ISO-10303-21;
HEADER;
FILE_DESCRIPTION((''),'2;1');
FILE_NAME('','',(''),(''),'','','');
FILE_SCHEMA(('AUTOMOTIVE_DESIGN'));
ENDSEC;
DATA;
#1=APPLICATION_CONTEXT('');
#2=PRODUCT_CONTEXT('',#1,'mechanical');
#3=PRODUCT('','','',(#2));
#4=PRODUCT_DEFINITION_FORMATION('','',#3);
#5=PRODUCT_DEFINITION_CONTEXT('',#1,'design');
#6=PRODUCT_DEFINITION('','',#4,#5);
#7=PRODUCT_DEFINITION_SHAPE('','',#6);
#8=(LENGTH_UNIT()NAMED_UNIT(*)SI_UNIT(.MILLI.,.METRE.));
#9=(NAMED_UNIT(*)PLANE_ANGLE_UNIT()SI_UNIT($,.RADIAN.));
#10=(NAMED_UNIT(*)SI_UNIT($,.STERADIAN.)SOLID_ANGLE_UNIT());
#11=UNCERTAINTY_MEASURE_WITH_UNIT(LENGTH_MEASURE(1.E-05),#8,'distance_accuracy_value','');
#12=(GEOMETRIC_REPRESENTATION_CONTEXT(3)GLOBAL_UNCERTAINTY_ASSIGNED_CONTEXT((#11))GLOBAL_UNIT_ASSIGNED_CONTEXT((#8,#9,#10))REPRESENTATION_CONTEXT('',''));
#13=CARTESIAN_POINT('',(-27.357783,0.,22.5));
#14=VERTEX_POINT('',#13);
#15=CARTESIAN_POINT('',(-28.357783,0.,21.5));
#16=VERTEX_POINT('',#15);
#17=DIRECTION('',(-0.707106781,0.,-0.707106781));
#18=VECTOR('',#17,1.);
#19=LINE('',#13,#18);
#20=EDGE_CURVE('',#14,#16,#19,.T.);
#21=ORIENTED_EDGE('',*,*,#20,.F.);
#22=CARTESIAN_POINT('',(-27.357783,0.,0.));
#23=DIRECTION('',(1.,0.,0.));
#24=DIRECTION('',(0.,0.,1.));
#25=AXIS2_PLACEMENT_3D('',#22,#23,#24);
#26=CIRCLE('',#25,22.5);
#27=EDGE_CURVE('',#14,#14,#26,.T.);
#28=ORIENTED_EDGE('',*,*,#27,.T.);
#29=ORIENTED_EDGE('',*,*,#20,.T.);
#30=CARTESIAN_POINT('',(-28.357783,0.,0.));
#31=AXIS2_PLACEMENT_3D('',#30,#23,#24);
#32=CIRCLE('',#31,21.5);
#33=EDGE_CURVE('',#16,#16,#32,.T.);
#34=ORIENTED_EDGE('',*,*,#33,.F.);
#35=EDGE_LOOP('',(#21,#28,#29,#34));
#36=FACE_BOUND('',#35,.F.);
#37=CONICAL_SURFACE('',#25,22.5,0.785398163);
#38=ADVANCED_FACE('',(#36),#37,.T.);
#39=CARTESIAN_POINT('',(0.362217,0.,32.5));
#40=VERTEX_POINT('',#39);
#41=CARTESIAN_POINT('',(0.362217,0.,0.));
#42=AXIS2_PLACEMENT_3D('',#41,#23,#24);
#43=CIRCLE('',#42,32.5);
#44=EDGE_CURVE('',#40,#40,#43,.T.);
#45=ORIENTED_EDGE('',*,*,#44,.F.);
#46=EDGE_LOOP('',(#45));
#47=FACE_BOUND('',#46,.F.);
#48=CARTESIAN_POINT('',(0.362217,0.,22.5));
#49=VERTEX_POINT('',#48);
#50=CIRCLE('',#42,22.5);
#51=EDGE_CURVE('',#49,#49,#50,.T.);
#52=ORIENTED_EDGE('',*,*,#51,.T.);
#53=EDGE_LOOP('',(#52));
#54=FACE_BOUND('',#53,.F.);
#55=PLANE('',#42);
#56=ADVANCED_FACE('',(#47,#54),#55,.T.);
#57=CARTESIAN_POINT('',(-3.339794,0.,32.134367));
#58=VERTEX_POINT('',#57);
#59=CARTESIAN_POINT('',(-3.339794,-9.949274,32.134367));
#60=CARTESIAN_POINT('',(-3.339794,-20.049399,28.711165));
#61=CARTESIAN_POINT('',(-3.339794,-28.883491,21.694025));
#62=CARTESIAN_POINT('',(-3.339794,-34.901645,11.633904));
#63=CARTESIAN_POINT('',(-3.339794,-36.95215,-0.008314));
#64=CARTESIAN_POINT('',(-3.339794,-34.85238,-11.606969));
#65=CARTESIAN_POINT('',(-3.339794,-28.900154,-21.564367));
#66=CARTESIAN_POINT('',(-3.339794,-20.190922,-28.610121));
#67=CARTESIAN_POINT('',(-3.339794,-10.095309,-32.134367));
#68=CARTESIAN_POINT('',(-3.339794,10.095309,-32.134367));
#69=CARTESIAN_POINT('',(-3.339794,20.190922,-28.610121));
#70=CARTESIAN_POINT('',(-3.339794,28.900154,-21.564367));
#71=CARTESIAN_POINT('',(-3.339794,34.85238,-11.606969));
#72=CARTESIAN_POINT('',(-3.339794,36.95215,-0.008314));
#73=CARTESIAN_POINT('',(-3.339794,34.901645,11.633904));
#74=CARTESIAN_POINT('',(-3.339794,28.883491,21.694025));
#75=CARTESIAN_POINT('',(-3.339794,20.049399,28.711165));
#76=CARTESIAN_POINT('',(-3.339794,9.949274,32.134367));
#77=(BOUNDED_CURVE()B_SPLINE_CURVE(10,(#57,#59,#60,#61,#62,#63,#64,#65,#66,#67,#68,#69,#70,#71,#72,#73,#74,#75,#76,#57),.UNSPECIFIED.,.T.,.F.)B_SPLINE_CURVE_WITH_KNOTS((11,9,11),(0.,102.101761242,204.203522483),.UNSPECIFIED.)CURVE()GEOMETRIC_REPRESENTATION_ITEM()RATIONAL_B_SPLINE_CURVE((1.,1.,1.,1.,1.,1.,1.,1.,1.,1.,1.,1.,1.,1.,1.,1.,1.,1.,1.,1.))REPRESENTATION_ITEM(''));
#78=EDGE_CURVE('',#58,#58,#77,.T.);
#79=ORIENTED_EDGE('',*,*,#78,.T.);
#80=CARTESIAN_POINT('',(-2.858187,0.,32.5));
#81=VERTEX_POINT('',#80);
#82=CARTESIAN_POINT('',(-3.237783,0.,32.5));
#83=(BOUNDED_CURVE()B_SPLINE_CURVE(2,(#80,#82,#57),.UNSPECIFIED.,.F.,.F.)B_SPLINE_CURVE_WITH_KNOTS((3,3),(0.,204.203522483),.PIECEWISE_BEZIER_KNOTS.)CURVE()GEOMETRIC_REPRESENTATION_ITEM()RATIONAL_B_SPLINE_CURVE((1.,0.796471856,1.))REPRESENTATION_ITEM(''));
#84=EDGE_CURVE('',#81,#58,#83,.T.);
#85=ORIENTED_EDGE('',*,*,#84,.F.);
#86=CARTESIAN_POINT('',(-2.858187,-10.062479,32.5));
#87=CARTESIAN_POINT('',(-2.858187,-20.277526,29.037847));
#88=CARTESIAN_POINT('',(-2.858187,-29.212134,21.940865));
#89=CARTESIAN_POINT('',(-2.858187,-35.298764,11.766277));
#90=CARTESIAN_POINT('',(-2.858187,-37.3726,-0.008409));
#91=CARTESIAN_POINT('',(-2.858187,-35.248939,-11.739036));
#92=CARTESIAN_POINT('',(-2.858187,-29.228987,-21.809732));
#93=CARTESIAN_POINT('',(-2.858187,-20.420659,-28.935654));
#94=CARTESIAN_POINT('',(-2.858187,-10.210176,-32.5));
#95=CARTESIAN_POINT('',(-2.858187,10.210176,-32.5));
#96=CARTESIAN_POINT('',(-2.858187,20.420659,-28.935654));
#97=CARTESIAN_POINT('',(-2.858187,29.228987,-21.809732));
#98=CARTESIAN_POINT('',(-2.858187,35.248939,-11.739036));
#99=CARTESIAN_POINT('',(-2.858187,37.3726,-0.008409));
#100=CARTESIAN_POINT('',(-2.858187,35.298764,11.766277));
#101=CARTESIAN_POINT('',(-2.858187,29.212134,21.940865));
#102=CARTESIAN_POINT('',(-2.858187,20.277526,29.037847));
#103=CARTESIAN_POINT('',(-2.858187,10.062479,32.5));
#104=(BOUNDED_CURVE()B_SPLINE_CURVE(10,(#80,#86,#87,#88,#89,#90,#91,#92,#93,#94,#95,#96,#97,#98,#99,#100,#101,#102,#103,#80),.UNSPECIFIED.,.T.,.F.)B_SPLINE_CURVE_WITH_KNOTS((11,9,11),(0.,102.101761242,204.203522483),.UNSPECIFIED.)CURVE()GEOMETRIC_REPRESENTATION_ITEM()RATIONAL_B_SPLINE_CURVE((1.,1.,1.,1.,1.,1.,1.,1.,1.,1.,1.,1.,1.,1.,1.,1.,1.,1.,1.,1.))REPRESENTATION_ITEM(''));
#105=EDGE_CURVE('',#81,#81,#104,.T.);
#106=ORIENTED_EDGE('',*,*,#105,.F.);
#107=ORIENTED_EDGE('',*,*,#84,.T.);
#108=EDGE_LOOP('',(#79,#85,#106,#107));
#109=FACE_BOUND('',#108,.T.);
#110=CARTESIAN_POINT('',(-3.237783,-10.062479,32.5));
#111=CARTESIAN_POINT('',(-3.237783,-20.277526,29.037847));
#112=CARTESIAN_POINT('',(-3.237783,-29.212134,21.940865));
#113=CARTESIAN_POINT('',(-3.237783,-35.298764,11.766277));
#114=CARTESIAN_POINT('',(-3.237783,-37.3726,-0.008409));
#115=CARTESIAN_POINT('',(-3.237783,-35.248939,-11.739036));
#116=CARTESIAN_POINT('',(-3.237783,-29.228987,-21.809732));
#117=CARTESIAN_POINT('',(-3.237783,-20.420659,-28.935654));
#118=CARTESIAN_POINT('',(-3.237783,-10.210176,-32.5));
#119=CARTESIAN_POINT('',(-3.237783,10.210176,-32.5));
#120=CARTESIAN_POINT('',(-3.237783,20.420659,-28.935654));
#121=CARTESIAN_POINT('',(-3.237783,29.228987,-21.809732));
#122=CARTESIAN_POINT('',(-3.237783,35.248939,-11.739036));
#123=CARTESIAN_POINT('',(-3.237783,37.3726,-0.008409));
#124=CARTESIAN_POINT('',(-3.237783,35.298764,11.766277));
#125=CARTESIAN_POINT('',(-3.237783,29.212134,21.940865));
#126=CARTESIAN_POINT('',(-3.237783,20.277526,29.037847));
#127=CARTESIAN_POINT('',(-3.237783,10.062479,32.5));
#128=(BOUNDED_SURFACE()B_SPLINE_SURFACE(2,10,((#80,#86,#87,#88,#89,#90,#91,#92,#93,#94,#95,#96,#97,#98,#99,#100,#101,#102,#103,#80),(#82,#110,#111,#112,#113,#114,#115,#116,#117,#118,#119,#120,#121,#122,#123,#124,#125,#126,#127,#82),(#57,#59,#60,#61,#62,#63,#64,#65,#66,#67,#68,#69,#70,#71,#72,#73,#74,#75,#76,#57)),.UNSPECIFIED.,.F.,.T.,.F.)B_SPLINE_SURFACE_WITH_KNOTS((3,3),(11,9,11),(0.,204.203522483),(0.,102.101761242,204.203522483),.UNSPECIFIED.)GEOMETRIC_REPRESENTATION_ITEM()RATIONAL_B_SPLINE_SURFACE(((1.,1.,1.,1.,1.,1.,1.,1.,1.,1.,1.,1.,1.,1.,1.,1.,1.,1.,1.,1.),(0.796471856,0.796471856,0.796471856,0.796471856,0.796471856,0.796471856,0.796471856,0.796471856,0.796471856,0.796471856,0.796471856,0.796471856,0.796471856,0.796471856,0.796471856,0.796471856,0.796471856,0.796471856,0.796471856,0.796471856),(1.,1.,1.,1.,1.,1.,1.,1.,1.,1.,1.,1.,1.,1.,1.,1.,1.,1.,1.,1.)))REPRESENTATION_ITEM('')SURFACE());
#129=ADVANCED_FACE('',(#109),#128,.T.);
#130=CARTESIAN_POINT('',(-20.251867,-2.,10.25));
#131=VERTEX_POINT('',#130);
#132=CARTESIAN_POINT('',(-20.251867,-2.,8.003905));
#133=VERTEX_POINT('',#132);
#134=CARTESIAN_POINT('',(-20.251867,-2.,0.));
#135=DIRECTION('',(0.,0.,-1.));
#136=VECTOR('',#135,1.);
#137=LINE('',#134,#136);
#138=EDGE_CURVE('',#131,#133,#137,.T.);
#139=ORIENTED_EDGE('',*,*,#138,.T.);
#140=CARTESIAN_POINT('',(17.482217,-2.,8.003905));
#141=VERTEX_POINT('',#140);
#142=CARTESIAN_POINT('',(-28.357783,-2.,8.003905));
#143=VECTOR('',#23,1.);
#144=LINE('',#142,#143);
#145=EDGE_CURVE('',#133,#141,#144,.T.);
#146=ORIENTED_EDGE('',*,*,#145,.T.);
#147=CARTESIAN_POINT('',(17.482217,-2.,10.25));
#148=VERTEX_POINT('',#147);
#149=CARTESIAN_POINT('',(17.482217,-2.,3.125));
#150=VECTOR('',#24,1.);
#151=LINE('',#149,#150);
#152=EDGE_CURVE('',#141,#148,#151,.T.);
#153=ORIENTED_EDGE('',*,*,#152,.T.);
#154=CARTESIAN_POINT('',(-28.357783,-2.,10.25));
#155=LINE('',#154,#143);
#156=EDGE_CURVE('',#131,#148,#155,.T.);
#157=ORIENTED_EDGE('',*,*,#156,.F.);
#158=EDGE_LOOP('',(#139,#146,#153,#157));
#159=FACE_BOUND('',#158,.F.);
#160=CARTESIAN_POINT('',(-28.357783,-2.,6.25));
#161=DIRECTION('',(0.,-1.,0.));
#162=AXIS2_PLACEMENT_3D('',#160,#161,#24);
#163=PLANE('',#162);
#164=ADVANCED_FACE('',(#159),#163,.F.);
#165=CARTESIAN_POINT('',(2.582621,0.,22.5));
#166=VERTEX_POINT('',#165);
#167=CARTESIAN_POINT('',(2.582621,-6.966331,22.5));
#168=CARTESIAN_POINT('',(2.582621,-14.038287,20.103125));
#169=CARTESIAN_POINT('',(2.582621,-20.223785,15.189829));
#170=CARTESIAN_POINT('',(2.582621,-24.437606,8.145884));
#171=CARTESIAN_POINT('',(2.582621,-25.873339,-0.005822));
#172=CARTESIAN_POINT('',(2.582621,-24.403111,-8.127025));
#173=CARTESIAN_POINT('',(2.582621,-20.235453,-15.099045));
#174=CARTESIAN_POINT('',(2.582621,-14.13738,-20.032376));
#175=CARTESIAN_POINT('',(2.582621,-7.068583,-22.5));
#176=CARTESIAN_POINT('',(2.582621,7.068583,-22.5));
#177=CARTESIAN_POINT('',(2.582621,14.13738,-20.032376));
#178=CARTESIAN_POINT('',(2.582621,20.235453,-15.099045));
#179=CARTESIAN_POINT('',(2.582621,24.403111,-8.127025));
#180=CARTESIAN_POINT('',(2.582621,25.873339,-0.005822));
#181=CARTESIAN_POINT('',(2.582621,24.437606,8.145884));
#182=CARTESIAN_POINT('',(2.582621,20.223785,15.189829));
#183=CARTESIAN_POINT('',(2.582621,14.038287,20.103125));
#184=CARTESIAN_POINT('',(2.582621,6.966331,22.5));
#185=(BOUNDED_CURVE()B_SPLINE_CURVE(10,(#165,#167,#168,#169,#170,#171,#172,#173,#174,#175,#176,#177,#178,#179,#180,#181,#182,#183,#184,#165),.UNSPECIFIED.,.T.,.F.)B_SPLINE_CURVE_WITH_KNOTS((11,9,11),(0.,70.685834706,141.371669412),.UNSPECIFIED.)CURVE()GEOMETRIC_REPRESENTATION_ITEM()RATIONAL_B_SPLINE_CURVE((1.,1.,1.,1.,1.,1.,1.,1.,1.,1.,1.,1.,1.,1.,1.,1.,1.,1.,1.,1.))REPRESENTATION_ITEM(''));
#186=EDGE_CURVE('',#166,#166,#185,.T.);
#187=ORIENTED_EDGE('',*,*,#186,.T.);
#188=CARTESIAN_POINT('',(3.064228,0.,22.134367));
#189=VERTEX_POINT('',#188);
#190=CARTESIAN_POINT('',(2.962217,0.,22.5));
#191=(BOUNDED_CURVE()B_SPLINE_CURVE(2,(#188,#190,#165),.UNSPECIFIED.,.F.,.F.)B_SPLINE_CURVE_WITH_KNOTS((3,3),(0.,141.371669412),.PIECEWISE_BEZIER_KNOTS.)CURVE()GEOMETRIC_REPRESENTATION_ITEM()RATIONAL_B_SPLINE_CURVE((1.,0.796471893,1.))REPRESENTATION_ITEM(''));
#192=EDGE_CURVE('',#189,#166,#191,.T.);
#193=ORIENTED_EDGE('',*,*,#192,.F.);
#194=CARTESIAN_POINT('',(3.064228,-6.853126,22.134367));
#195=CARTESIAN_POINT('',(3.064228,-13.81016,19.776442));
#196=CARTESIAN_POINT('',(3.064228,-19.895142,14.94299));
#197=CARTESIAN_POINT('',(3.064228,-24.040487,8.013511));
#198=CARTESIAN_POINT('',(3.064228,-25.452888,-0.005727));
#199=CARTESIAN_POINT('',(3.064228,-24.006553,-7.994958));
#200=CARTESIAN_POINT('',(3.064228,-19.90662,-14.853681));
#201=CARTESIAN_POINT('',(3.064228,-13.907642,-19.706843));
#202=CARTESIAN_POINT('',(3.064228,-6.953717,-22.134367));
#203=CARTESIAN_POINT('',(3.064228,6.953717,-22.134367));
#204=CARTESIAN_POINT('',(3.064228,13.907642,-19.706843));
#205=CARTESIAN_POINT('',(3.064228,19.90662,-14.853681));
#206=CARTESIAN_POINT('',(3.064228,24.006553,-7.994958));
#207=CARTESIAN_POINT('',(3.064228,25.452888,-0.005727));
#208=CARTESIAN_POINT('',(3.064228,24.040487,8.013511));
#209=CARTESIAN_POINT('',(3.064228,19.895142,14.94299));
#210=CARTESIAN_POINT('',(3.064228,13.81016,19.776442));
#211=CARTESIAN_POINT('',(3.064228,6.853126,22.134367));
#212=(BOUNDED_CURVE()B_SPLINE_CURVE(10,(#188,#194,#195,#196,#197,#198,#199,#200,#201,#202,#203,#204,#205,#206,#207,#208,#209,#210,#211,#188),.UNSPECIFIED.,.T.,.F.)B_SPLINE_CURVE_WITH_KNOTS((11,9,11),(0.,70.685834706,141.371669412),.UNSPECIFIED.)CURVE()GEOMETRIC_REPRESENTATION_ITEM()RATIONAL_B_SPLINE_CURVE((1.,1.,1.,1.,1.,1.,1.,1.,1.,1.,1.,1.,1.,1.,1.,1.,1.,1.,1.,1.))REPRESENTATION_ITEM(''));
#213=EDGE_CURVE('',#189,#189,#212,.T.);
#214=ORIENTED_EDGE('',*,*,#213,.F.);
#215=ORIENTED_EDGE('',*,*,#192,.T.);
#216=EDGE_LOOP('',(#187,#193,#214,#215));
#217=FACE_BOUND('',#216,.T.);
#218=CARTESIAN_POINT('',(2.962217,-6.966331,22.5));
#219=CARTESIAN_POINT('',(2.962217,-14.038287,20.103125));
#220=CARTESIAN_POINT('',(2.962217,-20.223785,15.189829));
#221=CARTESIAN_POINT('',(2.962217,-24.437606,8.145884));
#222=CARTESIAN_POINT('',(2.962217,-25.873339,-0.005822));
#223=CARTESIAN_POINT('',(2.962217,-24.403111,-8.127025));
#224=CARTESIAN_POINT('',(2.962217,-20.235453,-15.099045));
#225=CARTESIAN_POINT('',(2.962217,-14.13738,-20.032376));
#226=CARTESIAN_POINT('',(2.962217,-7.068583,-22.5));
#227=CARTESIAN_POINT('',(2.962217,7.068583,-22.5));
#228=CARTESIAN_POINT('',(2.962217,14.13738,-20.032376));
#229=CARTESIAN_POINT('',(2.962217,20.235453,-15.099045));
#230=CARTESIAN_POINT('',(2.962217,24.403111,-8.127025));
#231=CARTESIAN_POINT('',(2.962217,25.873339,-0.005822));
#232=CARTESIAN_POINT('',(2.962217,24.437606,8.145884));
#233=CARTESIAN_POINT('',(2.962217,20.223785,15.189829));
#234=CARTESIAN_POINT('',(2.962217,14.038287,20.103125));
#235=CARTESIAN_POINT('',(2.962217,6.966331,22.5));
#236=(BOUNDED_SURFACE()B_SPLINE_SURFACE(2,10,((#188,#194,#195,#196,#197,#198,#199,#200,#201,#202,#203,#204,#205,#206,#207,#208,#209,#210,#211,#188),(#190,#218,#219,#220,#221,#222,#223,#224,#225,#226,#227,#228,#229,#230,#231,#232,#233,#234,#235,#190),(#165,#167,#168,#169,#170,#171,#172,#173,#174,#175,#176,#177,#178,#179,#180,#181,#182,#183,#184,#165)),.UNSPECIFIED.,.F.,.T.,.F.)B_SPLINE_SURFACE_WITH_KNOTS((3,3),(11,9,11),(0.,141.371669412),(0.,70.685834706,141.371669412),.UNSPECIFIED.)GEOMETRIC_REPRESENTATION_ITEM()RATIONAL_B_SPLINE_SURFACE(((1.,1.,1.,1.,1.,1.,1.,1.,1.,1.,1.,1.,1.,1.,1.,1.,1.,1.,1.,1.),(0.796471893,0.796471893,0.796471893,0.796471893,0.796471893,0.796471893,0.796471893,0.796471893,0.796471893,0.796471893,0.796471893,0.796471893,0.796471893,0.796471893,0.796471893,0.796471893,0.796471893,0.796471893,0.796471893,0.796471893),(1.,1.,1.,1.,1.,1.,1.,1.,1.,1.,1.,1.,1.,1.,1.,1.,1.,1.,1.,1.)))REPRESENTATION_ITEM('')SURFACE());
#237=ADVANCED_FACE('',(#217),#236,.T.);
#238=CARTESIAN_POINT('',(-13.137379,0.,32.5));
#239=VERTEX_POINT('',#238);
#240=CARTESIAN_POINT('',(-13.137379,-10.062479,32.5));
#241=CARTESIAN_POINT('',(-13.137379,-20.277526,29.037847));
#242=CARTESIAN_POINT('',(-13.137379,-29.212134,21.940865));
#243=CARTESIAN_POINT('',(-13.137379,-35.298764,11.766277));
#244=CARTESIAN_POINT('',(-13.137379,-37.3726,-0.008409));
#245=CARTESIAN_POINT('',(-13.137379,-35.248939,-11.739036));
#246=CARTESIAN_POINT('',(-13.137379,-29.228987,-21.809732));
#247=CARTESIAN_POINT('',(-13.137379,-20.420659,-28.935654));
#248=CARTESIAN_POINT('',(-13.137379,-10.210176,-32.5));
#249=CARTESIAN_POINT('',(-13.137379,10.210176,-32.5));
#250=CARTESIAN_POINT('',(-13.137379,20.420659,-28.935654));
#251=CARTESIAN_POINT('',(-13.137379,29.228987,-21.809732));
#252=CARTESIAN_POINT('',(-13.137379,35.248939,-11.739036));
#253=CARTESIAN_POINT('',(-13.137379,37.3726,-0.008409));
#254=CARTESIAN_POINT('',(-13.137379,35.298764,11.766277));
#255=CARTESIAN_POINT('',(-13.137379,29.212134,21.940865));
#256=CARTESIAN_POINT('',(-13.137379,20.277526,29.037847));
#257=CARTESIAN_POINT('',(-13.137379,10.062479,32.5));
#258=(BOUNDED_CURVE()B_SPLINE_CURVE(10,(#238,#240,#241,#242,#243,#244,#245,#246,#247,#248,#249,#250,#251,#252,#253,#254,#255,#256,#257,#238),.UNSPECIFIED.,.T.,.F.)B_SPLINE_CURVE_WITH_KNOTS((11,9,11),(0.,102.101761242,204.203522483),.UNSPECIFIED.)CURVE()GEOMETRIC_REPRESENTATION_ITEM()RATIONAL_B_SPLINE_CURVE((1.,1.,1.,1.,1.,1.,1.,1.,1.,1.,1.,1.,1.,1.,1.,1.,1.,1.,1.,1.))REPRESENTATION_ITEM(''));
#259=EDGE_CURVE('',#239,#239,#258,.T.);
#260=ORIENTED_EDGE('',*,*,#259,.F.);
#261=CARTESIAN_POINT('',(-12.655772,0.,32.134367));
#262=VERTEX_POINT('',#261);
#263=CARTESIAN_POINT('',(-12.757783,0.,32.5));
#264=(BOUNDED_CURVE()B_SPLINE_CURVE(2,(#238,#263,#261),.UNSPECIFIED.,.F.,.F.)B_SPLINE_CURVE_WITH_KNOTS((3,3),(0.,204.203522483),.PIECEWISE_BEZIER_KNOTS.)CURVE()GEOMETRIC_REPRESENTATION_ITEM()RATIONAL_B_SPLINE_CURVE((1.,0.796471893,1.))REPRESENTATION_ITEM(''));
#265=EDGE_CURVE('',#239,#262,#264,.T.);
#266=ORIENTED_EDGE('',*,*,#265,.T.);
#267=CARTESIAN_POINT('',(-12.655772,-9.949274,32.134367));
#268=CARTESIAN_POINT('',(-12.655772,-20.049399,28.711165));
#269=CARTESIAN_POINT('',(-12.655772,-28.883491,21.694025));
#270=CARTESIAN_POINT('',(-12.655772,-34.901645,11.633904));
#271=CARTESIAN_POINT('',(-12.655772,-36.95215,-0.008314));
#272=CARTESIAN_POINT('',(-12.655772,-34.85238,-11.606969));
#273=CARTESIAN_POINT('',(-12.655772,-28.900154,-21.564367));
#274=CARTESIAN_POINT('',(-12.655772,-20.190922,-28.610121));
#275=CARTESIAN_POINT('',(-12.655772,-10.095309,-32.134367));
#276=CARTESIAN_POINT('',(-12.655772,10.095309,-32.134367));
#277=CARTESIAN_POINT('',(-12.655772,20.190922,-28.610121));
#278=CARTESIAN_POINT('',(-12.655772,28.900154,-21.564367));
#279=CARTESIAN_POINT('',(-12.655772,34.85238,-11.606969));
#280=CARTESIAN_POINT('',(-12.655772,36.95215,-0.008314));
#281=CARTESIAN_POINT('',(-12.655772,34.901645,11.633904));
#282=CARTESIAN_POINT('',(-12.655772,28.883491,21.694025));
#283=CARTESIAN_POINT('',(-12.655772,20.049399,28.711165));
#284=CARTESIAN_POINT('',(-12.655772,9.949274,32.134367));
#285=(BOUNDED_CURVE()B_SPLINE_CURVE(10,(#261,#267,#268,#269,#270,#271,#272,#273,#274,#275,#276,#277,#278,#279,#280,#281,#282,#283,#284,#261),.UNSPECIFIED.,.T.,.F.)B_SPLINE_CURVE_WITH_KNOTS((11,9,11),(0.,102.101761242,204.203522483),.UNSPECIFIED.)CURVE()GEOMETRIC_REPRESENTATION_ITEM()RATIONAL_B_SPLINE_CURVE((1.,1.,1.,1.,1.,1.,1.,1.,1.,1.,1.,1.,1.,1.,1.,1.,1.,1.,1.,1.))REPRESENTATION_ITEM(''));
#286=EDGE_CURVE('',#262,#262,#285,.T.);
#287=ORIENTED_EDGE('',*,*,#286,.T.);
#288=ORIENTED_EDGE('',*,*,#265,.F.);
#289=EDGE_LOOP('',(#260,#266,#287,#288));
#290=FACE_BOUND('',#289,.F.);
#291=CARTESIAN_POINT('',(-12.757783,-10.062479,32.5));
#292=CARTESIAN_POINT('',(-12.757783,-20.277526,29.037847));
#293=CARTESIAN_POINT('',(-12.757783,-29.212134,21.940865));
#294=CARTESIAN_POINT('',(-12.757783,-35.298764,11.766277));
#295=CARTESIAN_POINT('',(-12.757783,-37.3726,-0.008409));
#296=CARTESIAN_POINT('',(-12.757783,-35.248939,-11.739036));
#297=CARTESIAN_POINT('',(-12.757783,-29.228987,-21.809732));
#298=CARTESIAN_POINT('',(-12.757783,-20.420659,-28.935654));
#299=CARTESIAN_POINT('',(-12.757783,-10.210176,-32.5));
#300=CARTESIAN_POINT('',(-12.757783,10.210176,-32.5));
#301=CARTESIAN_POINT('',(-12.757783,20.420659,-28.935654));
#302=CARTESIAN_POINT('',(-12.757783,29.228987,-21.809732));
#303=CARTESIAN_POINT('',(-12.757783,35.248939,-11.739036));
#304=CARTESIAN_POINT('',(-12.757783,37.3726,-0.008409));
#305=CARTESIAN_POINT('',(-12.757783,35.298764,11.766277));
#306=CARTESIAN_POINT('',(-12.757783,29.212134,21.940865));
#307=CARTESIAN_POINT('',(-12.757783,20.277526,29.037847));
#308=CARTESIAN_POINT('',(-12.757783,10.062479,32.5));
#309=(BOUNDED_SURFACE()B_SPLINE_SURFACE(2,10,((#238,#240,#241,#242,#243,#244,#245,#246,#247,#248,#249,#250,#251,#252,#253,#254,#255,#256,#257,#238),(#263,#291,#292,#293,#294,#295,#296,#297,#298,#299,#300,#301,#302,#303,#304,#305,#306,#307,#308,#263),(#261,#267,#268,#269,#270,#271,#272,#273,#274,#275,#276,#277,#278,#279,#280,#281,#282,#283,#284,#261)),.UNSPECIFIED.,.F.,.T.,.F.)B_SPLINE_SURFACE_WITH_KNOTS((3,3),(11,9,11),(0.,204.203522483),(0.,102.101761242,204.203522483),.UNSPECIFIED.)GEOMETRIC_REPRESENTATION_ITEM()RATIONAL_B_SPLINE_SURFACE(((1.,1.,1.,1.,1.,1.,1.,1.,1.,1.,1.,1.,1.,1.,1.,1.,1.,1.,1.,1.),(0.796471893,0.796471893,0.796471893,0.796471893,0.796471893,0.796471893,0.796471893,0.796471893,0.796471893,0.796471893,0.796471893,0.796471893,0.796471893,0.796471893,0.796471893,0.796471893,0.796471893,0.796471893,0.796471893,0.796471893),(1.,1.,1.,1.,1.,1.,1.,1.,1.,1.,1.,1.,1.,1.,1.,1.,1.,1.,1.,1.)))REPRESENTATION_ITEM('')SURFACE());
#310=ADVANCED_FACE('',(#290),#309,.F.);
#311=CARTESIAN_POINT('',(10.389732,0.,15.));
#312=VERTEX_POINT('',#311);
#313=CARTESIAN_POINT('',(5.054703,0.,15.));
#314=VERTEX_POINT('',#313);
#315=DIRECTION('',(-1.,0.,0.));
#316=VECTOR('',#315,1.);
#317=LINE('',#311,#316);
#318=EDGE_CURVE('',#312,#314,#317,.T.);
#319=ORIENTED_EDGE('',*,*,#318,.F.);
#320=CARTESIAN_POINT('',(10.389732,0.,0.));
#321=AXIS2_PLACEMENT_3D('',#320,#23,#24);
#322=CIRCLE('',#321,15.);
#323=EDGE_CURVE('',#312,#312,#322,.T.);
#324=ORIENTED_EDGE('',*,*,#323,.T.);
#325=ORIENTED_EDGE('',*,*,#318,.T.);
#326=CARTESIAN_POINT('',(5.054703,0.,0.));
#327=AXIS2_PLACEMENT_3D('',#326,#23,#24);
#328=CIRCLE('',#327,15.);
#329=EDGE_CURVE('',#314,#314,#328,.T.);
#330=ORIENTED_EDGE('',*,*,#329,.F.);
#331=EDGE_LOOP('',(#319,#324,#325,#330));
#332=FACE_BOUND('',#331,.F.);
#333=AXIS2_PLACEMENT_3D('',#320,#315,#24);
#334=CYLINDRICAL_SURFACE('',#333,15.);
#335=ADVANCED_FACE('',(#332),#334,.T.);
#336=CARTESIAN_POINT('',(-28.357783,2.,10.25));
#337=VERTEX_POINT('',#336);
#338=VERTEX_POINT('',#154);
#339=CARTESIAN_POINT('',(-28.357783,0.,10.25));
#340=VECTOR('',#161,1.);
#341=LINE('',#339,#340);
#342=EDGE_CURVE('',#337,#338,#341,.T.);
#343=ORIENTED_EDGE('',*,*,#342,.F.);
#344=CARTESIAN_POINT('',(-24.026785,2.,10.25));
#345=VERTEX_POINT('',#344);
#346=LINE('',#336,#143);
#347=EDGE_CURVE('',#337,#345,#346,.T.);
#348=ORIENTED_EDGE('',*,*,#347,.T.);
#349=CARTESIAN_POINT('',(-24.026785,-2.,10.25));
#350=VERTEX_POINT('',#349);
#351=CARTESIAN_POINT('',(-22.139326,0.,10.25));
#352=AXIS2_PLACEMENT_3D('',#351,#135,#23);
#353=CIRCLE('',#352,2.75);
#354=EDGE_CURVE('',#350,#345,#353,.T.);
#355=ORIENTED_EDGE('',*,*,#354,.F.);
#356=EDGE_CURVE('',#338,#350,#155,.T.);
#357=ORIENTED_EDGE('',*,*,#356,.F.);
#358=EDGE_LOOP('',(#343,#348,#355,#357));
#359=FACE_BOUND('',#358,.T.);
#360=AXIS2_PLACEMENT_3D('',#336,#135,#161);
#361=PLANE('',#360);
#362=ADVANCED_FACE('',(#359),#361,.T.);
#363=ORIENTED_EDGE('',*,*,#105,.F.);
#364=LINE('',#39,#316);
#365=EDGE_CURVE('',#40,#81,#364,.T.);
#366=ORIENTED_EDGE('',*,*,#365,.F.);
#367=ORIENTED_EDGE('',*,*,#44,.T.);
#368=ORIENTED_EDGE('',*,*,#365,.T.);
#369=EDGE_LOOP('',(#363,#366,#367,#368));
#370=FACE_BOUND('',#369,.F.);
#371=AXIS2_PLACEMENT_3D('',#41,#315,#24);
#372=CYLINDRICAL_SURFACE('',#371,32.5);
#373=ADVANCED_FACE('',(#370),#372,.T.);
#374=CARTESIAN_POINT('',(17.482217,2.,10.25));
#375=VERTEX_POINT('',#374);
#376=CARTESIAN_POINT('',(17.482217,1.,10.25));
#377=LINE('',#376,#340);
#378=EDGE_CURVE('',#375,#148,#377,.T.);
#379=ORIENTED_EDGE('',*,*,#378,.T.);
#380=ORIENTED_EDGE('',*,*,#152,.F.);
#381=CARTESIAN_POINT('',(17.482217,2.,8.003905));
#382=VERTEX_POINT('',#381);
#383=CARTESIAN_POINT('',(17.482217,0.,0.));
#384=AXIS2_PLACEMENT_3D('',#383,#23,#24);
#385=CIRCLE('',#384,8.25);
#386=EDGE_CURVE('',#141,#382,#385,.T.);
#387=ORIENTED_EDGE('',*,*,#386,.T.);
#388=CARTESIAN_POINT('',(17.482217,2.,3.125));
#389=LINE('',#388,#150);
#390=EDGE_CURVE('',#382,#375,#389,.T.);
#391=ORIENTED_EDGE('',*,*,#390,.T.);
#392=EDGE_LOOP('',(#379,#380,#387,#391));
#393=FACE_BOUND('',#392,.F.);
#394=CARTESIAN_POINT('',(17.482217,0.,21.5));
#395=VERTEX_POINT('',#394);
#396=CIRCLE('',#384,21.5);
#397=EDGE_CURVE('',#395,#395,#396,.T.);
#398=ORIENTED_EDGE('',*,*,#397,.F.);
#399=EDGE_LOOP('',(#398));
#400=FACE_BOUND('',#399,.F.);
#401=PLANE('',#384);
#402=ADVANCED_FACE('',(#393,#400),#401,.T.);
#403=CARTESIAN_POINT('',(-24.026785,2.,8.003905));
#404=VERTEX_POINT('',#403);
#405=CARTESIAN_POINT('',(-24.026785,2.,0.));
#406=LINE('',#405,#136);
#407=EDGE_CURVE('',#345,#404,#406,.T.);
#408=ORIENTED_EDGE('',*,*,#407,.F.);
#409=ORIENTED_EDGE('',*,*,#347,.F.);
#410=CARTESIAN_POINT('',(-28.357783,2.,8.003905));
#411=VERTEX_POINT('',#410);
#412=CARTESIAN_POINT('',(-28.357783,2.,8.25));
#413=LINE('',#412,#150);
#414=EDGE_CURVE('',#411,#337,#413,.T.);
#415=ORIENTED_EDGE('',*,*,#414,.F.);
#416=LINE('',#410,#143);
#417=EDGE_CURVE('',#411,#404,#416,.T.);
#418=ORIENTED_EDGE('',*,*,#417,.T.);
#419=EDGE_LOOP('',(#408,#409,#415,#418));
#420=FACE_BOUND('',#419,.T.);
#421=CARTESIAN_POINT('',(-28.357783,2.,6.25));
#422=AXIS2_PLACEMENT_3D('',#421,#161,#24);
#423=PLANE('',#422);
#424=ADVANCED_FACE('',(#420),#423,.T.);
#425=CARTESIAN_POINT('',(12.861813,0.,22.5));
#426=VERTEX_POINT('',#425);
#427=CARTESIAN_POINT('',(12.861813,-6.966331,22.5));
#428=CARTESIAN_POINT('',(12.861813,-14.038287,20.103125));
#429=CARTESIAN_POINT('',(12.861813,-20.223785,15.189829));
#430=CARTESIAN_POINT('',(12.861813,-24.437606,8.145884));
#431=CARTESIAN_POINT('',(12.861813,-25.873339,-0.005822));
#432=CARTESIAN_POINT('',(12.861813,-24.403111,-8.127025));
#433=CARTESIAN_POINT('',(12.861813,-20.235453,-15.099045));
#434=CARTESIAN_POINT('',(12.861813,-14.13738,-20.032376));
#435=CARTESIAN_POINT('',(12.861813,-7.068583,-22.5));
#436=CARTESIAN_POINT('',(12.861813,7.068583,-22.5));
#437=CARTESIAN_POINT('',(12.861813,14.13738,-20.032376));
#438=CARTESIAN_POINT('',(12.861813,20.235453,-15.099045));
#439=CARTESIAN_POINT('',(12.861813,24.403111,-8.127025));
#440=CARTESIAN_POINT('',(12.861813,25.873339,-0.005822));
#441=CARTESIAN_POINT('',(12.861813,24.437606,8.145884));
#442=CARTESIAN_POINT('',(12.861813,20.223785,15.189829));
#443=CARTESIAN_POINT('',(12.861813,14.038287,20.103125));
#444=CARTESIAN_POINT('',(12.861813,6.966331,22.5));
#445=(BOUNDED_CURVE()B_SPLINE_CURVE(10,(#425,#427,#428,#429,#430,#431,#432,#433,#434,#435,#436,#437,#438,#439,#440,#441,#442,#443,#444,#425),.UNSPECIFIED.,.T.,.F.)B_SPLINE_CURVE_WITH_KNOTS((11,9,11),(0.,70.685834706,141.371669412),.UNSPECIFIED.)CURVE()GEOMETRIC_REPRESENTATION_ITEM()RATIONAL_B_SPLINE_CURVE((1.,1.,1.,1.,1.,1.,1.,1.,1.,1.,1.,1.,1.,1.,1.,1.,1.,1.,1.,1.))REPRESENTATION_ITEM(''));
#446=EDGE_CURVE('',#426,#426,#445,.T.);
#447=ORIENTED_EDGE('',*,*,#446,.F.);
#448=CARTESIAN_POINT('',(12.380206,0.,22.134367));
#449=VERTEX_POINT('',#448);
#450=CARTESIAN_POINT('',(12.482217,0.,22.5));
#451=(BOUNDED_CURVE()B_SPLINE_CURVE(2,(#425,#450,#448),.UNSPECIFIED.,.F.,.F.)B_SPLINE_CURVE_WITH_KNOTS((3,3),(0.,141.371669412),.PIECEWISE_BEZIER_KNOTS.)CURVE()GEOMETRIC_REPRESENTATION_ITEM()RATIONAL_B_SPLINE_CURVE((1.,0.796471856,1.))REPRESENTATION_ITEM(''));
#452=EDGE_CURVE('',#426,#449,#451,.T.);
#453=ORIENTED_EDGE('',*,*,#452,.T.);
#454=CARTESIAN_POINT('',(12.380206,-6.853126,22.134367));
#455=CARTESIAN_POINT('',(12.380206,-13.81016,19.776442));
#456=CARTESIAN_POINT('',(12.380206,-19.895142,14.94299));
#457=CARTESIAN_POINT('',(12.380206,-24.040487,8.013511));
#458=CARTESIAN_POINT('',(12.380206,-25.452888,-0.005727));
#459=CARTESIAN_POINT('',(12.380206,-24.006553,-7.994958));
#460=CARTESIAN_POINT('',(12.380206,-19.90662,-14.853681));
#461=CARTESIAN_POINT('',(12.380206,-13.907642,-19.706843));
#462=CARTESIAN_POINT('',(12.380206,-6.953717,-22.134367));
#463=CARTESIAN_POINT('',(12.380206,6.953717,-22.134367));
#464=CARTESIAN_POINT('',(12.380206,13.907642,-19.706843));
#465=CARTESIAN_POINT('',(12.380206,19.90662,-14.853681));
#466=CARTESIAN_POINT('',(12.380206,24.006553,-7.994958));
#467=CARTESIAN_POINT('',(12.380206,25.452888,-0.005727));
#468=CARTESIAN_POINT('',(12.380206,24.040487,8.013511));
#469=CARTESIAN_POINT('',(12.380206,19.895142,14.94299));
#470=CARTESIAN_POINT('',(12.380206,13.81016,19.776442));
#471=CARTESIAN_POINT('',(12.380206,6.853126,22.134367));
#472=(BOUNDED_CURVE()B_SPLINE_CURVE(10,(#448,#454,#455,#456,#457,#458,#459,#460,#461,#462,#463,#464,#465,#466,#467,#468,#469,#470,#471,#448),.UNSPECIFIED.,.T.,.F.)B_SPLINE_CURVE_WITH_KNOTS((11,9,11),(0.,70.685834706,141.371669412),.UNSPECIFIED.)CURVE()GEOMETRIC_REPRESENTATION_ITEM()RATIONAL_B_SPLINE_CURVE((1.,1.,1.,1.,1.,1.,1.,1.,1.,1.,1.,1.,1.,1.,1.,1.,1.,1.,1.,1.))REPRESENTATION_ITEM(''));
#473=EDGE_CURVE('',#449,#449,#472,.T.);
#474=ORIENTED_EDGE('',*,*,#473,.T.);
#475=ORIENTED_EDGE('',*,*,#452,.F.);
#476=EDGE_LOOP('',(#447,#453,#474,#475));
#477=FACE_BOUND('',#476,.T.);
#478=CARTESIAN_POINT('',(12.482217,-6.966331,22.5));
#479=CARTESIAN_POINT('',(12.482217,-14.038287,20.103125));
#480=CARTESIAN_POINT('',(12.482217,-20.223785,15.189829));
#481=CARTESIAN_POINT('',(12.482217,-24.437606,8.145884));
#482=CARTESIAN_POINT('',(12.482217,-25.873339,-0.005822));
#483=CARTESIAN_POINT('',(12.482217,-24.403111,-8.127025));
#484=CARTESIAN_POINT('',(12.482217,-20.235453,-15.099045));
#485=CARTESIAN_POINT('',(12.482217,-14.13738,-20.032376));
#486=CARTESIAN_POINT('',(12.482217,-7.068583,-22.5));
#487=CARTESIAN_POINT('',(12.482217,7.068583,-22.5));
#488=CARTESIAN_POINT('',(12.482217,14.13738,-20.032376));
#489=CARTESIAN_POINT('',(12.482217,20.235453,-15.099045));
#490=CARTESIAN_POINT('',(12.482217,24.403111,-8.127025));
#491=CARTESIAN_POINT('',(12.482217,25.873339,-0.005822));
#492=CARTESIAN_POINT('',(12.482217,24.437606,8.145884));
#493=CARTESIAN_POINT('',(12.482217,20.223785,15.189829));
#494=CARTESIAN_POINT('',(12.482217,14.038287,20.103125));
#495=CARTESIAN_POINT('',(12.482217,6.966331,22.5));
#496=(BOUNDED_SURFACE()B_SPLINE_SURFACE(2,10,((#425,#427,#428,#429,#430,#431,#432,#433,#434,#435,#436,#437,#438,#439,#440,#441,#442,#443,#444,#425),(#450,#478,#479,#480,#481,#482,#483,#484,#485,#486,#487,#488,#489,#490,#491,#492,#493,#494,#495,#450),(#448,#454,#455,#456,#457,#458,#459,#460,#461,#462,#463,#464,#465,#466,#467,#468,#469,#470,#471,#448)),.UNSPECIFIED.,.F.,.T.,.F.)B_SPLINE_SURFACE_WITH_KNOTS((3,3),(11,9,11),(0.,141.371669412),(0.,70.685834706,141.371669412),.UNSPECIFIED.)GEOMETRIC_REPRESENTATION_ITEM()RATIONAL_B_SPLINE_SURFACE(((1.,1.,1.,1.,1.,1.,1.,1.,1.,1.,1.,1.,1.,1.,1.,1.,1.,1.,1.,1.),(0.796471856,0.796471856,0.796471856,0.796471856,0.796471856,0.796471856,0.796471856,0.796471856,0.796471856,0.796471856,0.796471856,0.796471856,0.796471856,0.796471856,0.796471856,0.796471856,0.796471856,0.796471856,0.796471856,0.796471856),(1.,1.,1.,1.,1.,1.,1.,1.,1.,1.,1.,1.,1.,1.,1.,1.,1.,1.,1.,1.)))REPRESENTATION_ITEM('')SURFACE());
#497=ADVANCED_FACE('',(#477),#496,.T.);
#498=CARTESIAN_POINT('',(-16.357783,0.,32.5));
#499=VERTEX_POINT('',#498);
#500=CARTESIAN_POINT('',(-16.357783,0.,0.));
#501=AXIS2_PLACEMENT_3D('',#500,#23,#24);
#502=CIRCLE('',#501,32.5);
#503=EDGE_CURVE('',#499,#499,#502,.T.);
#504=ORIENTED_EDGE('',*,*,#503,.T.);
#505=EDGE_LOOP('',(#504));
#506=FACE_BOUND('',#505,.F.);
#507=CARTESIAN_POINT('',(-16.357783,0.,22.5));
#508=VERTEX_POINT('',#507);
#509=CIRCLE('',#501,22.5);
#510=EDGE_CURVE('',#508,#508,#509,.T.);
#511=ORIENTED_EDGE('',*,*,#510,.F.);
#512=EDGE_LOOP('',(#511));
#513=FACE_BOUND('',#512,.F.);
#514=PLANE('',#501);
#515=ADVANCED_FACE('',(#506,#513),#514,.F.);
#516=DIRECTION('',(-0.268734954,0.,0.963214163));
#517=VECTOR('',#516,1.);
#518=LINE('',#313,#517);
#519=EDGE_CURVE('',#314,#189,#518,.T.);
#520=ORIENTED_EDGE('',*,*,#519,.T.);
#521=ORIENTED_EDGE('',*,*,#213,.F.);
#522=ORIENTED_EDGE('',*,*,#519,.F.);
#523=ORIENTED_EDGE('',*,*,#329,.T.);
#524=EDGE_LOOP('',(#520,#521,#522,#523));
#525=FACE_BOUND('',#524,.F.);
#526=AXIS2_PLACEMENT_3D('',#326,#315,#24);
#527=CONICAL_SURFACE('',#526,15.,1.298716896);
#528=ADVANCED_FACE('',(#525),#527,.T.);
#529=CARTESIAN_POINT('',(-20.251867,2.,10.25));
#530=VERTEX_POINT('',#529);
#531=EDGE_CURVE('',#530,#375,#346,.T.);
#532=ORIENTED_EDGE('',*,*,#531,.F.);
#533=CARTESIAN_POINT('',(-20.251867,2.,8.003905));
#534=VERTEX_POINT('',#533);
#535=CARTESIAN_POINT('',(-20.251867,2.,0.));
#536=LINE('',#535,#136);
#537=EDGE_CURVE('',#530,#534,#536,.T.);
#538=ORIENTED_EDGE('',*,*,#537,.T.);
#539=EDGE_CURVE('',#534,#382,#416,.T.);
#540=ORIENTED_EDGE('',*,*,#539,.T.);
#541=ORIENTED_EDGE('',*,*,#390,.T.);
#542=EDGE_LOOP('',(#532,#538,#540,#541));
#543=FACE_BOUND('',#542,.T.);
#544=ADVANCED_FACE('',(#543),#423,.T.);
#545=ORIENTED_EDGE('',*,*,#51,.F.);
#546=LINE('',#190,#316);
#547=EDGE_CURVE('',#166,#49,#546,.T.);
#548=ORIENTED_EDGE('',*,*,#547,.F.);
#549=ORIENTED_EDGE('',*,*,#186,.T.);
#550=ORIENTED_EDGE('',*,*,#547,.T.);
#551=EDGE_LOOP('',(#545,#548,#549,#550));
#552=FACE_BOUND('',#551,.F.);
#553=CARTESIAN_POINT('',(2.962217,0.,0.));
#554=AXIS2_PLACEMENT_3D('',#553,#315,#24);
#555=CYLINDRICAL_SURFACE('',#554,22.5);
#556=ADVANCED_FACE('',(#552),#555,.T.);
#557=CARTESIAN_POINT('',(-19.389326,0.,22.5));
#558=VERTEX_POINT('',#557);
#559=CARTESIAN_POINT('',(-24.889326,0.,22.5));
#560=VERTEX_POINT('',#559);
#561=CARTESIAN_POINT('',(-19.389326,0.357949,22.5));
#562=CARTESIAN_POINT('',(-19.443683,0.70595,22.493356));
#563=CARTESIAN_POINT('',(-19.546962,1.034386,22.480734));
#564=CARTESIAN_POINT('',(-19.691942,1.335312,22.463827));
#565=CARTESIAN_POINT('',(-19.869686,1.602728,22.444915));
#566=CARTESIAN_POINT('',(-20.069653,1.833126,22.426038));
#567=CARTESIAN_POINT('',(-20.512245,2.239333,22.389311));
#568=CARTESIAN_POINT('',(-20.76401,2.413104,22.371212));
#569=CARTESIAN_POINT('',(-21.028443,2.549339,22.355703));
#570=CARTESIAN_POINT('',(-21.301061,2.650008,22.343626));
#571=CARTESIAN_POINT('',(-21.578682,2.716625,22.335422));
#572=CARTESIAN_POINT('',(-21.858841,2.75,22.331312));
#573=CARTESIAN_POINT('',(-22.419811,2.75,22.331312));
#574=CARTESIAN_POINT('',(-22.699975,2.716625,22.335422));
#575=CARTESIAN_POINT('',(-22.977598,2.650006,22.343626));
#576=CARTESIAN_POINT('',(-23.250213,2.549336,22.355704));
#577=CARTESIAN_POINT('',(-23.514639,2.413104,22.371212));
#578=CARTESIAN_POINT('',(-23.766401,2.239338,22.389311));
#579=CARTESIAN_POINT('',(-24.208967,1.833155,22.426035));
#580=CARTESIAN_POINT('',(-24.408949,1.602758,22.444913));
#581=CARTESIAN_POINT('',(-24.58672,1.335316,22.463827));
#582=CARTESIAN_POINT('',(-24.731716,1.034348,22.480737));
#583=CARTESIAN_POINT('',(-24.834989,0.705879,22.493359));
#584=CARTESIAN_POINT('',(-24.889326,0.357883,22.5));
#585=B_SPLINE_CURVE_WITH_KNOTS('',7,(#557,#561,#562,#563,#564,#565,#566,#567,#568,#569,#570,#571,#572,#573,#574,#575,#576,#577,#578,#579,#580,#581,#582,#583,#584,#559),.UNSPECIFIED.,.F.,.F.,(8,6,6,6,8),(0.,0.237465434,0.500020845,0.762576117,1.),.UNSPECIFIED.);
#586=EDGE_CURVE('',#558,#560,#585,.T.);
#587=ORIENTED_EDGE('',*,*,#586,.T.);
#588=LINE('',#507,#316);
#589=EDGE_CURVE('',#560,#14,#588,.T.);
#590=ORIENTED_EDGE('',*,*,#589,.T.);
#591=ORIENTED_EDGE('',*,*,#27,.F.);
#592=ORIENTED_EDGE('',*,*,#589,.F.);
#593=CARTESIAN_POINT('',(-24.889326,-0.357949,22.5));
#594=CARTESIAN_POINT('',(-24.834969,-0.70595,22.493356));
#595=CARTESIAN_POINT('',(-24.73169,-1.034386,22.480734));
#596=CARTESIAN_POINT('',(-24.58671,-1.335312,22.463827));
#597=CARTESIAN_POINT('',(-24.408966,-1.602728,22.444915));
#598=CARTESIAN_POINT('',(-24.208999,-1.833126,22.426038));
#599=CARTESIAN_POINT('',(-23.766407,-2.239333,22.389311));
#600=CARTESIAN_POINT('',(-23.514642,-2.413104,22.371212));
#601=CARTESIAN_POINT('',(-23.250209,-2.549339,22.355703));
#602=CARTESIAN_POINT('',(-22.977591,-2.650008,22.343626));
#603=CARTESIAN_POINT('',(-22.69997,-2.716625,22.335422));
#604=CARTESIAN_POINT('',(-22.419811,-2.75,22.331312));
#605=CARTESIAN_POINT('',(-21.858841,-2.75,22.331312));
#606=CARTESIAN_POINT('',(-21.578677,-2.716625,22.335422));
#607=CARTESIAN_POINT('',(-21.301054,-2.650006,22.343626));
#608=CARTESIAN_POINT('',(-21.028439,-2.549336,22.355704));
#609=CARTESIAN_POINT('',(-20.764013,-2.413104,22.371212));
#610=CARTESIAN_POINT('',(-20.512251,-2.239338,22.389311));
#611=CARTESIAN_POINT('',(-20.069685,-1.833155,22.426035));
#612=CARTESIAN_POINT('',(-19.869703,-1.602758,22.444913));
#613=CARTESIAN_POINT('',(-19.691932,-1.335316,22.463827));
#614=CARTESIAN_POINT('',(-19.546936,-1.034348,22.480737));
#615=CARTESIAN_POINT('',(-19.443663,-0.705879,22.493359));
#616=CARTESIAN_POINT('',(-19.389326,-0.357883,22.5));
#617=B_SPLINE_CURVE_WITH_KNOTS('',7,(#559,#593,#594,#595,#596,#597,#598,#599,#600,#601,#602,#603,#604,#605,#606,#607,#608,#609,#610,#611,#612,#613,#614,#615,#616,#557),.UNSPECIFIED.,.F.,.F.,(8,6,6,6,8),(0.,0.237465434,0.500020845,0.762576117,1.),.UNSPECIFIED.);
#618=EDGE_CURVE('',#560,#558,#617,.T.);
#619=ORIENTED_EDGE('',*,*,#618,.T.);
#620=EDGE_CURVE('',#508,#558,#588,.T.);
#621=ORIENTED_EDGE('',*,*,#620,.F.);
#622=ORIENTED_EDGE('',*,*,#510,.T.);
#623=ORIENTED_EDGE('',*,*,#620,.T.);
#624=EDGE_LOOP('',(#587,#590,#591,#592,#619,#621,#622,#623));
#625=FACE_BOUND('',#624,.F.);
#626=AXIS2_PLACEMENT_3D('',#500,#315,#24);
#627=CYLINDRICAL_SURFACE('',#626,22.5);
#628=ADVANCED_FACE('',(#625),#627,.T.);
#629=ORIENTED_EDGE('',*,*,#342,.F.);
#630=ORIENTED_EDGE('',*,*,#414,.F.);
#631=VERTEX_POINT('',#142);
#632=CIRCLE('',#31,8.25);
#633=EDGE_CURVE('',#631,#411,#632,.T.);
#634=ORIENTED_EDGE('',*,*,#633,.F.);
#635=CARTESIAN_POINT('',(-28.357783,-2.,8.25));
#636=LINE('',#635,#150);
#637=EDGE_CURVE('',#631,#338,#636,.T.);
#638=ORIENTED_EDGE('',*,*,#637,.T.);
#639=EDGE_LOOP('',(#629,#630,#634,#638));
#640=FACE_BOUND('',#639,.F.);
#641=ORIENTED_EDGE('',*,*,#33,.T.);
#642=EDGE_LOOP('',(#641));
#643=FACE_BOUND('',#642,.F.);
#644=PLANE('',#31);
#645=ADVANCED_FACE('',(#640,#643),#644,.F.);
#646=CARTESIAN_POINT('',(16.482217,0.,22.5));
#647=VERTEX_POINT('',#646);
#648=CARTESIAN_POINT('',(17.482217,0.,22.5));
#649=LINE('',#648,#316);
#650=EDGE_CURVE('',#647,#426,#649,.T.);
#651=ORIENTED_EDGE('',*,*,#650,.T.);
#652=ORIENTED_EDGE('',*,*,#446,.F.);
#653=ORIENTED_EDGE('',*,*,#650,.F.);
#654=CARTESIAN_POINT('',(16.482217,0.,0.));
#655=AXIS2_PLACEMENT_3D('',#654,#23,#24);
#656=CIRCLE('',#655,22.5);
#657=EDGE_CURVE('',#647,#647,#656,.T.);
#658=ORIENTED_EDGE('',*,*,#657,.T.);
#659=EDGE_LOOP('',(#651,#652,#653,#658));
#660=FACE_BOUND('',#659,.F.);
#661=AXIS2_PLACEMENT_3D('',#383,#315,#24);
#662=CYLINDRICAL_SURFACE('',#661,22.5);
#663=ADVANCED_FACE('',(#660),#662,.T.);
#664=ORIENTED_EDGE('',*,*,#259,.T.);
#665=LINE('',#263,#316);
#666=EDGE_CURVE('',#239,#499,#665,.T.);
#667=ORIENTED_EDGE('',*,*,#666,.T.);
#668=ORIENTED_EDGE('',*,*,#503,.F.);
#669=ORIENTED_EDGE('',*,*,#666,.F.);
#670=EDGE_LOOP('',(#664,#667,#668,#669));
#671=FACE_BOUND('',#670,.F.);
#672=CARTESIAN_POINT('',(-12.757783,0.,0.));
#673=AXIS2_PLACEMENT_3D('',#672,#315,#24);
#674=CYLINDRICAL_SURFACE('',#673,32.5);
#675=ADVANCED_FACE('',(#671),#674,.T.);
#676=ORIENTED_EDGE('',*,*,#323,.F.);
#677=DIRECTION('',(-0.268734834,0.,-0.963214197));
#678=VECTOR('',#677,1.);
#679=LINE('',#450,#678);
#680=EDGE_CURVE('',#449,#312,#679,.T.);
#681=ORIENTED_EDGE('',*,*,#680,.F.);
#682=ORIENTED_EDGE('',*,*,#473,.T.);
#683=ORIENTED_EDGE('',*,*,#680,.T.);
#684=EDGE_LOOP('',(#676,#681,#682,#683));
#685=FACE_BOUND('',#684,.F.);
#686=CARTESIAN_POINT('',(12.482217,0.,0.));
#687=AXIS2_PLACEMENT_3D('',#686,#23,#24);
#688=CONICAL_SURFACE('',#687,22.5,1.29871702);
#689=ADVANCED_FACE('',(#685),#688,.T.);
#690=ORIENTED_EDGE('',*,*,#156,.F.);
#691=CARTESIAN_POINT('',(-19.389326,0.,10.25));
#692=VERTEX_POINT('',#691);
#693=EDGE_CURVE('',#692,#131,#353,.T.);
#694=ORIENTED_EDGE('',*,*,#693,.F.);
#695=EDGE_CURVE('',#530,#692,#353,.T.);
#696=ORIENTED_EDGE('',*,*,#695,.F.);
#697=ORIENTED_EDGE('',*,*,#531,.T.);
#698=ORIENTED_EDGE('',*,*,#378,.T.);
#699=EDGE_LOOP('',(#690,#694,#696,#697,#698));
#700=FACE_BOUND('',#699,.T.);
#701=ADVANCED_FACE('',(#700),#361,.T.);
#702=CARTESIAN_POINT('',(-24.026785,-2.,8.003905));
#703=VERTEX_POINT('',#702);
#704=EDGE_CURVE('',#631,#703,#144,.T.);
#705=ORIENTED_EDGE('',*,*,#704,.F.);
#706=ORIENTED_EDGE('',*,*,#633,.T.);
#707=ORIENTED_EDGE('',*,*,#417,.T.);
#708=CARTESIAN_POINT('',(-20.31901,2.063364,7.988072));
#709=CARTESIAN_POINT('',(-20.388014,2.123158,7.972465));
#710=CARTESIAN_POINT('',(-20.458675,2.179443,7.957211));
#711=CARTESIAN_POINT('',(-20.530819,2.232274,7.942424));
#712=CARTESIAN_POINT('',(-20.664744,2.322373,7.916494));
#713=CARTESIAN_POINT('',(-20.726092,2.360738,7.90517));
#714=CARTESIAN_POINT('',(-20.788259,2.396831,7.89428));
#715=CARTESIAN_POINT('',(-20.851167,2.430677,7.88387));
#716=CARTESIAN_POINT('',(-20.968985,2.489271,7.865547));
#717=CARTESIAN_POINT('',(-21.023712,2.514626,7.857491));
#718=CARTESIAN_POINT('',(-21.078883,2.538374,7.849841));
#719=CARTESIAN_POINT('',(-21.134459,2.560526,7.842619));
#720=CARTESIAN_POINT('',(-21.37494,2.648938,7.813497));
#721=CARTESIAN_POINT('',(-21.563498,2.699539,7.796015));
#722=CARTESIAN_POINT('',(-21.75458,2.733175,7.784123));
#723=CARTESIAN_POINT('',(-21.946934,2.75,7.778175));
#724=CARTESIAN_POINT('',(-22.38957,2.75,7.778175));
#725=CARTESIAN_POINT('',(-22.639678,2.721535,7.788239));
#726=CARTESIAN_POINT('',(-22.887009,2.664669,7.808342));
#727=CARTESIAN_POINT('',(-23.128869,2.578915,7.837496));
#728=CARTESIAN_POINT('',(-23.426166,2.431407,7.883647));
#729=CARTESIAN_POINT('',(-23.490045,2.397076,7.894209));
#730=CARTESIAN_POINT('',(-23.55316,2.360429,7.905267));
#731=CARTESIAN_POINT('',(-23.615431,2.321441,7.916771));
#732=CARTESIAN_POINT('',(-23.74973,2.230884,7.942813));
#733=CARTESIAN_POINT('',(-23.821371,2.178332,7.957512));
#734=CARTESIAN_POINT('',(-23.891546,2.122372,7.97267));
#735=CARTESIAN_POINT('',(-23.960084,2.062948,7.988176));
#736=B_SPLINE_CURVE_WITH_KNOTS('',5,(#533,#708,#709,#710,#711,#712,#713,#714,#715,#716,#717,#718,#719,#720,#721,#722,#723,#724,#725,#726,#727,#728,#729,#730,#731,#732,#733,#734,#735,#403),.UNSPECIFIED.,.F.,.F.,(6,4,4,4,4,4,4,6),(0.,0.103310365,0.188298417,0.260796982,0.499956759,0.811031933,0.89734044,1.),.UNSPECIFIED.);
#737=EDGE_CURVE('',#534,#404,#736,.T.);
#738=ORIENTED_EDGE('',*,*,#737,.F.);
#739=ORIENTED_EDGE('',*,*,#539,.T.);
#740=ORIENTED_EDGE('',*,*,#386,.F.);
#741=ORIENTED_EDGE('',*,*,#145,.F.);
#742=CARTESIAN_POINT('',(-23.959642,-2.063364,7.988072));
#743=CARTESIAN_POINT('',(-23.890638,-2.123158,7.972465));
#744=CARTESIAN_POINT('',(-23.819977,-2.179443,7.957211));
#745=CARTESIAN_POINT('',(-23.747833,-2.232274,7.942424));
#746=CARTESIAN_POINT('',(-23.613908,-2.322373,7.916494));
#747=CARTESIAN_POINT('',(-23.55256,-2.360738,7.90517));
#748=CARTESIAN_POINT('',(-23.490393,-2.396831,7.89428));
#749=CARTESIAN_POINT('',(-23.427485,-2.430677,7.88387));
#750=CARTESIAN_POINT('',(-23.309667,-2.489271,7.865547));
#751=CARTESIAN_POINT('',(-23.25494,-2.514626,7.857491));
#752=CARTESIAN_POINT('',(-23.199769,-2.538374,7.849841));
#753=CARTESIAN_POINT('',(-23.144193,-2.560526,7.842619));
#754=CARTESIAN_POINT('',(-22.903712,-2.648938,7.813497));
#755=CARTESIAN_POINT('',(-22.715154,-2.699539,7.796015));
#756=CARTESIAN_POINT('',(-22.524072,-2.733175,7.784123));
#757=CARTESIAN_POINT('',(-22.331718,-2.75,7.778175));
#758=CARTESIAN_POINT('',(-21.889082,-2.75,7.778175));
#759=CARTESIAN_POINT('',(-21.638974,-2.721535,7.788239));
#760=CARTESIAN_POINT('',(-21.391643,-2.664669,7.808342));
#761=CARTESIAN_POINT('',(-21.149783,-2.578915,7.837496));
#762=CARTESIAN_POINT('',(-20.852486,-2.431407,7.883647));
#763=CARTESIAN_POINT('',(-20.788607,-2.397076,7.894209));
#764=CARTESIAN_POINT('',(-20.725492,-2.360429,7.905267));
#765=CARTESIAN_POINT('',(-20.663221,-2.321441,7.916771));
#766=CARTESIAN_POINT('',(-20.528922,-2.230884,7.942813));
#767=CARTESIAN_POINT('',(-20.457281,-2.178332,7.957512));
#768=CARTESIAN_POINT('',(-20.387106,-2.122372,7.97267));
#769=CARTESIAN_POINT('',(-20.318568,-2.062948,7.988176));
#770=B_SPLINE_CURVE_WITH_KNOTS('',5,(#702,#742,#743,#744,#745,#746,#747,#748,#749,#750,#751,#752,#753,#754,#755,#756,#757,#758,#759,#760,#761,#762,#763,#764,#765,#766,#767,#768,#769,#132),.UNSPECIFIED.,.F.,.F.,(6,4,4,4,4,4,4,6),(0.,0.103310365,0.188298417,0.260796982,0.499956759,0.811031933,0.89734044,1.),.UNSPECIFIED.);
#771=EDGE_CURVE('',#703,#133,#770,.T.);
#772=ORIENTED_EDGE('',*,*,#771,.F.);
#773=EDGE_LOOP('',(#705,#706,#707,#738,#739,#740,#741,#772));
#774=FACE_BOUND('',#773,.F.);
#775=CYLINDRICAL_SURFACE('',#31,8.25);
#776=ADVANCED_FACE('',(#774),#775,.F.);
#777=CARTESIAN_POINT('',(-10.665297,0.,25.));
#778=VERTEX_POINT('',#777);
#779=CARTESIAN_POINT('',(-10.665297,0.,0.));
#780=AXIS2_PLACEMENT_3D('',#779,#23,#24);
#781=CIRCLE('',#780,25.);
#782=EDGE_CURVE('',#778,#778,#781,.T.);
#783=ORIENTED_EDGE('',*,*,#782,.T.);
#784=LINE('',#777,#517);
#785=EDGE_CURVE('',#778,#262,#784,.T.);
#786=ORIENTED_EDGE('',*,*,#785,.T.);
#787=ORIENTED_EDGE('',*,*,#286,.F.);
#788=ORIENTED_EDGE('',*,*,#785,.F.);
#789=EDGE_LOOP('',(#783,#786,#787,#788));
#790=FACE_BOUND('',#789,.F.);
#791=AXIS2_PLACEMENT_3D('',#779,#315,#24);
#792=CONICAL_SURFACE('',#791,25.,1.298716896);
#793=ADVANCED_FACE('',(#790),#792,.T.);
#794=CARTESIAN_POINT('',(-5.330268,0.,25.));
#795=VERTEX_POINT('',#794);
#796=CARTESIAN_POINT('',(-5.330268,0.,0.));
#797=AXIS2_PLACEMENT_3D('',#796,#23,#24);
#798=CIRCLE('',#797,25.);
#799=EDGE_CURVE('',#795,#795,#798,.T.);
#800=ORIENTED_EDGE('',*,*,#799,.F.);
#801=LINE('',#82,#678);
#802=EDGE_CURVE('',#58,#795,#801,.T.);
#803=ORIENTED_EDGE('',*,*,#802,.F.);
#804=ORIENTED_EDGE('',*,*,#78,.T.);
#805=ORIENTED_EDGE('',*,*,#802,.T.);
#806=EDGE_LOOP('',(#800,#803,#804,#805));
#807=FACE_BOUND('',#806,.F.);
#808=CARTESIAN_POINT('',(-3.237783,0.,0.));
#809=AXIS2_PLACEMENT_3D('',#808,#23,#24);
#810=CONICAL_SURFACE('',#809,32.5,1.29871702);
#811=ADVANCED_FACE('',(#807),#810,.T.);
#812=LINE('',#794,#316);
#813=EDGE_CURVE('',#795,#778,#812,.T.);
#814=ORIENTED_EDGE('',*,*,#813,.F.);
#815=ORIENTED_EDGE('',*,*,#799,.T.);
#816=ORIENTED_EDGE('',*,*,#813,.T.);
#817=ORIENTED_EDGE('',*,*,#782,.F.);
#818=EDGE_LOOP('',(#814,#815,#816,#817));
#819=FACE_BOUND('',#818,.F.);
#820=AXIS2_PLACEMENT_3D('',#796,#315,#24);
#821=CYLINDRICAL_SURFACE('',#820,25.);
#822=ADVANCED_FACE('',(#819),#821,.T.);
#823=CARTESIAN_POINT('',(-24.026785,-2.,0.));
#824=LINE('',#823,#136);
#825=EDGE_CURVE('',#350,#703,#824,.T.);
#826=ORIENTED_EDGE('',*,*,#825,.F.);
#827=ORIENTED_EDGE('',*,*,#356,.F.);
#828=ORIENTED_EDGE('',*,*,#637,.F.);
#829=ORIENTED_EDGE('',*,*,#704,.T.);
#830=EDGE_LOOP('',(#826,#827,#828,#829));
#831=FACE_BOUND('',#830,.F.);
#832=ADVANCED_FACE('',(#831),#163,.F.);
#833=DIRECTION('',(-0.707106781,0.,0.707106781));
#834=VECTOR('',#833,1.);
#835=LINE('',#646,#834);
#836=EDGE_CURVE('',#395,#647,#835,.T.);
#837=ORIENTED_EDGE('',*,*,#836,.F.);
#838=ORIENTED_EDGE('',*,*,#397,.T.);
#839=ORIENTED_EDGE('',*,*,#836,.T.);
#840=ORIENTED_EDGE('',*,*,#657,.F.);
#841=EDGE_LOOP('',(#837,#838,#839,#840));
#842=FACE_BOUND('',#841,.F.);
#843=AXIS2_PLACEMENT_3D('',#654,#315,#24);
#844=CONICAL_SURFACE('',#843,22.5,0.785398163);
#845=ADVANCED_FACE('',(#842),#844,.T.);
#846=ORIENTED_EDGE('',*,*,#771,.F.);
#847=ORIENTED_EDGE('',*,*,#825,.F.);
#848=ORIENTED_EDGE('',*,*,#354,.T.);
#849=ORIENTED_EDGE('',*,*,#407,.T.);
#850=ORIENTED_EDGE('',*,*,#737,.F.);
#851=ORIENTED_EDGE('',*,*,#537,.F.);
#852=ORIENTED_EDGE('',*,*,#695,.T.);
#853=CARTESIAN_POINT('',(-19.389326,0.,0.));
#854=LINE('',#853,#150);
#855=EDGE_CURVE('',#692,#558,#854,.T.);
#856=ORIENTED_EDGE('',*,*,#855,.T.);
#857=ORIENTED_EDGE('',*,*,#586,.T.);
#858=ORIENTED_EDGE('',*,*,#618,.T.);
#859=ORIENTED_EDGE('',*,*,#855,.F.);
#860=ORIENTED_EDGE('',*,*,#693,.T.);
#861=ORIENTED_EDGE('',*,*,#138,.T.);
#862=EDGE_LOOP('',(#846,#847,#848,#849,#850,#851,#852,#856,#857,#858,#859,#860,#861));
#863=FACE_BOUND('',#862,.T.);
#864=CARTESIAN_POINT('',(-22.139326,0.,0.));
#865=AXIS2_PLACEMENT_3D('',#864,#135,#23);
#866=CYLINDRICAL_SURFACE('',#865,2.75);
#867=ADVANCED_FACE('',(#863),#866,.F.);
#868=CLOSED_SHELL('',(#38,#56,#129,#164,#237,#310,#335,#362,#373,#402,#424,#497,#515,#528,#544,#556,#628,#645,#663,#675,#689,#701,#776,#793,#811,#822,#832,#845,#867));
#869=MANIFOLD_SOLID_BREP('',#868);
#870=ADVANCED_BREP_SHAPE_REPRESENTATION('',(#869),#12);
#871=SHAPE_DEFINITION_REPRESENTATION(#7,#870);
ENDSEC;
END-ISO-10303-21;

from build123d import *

# Parameters (mm, degrees)
F2_SIZE  = 1
F3_R     = 0.5
F4_W     = 4
F4_H     = 4
F5_DEPTH = 45.841
F6_R     = 2.75
F7_DEPTH = 25


with BuildPart() as f1:
    # F0 (on Front) → F1 (revolve)
    with BuildSketch(Plane.XZ):
        Polygon((-28.357783, 8.25), (-16.357783, 8.25), (0.362217, 8.25), (17.482217, 8.25), (17.482217, 22.5), (12.482217, 22.5), (10.389732, 15), (5.054703, 15), (2.962217, 22.5), (0.362217, 22.5), (0.362217, 32.5), (-3.237783, 32.5), (-5.330268, 25), (-10.665297, 25), (-12.757783, 32.5), (-16.357783, 32.5), (-16.357783, 22.5), (-28.357783, 22.5), align=None)
    revolve(axis=Axis((9.010959, 0, 0), (1, 0, 0)))

    # F2
    f2_edges = [f1.edges().sort_by_distance(p)[0] for p in [
        (-28.357783, 0, -22.5),
        (17.482217, 0, -22.5),
    ]]
    chamfer(f2_edges, length=F2_SIZE)

    # F3
    f3_edges = [f1.edges().sort_by_distance(p)[0] for p in [
        (-12.757783, 0, -32.5),
        (-3.237783, 0, -32.5),
        (2.962217, 0, -22.5),
        (12.482217, 0, -22.5),
    ]]
    fillet(f3_edges, radius=F3_R)

    # F4 (on face) → F5 (cut, through all)
    with BuildSketch(Plane(origin=(-28.357783, 0, 0), x_dir=(0, -1, 0), z_dir=(-1, 0, 0))):
        with Locations((0, 8.25)):
            Rectangle(F4_W, F4_H)
    extrude(amount=-F5_DEPTH, mode=Mode.SUBTRACT)

    # F6 (on Top) → F7 (cut)
    with BuildSketch(Plane.XY):
        with Locations((-22.139326, 0)):
            Circle(F6_R)
    extrude(amount=F7_DEPTH, mode=Mode.SUBTRACT)


solid = f1.part
